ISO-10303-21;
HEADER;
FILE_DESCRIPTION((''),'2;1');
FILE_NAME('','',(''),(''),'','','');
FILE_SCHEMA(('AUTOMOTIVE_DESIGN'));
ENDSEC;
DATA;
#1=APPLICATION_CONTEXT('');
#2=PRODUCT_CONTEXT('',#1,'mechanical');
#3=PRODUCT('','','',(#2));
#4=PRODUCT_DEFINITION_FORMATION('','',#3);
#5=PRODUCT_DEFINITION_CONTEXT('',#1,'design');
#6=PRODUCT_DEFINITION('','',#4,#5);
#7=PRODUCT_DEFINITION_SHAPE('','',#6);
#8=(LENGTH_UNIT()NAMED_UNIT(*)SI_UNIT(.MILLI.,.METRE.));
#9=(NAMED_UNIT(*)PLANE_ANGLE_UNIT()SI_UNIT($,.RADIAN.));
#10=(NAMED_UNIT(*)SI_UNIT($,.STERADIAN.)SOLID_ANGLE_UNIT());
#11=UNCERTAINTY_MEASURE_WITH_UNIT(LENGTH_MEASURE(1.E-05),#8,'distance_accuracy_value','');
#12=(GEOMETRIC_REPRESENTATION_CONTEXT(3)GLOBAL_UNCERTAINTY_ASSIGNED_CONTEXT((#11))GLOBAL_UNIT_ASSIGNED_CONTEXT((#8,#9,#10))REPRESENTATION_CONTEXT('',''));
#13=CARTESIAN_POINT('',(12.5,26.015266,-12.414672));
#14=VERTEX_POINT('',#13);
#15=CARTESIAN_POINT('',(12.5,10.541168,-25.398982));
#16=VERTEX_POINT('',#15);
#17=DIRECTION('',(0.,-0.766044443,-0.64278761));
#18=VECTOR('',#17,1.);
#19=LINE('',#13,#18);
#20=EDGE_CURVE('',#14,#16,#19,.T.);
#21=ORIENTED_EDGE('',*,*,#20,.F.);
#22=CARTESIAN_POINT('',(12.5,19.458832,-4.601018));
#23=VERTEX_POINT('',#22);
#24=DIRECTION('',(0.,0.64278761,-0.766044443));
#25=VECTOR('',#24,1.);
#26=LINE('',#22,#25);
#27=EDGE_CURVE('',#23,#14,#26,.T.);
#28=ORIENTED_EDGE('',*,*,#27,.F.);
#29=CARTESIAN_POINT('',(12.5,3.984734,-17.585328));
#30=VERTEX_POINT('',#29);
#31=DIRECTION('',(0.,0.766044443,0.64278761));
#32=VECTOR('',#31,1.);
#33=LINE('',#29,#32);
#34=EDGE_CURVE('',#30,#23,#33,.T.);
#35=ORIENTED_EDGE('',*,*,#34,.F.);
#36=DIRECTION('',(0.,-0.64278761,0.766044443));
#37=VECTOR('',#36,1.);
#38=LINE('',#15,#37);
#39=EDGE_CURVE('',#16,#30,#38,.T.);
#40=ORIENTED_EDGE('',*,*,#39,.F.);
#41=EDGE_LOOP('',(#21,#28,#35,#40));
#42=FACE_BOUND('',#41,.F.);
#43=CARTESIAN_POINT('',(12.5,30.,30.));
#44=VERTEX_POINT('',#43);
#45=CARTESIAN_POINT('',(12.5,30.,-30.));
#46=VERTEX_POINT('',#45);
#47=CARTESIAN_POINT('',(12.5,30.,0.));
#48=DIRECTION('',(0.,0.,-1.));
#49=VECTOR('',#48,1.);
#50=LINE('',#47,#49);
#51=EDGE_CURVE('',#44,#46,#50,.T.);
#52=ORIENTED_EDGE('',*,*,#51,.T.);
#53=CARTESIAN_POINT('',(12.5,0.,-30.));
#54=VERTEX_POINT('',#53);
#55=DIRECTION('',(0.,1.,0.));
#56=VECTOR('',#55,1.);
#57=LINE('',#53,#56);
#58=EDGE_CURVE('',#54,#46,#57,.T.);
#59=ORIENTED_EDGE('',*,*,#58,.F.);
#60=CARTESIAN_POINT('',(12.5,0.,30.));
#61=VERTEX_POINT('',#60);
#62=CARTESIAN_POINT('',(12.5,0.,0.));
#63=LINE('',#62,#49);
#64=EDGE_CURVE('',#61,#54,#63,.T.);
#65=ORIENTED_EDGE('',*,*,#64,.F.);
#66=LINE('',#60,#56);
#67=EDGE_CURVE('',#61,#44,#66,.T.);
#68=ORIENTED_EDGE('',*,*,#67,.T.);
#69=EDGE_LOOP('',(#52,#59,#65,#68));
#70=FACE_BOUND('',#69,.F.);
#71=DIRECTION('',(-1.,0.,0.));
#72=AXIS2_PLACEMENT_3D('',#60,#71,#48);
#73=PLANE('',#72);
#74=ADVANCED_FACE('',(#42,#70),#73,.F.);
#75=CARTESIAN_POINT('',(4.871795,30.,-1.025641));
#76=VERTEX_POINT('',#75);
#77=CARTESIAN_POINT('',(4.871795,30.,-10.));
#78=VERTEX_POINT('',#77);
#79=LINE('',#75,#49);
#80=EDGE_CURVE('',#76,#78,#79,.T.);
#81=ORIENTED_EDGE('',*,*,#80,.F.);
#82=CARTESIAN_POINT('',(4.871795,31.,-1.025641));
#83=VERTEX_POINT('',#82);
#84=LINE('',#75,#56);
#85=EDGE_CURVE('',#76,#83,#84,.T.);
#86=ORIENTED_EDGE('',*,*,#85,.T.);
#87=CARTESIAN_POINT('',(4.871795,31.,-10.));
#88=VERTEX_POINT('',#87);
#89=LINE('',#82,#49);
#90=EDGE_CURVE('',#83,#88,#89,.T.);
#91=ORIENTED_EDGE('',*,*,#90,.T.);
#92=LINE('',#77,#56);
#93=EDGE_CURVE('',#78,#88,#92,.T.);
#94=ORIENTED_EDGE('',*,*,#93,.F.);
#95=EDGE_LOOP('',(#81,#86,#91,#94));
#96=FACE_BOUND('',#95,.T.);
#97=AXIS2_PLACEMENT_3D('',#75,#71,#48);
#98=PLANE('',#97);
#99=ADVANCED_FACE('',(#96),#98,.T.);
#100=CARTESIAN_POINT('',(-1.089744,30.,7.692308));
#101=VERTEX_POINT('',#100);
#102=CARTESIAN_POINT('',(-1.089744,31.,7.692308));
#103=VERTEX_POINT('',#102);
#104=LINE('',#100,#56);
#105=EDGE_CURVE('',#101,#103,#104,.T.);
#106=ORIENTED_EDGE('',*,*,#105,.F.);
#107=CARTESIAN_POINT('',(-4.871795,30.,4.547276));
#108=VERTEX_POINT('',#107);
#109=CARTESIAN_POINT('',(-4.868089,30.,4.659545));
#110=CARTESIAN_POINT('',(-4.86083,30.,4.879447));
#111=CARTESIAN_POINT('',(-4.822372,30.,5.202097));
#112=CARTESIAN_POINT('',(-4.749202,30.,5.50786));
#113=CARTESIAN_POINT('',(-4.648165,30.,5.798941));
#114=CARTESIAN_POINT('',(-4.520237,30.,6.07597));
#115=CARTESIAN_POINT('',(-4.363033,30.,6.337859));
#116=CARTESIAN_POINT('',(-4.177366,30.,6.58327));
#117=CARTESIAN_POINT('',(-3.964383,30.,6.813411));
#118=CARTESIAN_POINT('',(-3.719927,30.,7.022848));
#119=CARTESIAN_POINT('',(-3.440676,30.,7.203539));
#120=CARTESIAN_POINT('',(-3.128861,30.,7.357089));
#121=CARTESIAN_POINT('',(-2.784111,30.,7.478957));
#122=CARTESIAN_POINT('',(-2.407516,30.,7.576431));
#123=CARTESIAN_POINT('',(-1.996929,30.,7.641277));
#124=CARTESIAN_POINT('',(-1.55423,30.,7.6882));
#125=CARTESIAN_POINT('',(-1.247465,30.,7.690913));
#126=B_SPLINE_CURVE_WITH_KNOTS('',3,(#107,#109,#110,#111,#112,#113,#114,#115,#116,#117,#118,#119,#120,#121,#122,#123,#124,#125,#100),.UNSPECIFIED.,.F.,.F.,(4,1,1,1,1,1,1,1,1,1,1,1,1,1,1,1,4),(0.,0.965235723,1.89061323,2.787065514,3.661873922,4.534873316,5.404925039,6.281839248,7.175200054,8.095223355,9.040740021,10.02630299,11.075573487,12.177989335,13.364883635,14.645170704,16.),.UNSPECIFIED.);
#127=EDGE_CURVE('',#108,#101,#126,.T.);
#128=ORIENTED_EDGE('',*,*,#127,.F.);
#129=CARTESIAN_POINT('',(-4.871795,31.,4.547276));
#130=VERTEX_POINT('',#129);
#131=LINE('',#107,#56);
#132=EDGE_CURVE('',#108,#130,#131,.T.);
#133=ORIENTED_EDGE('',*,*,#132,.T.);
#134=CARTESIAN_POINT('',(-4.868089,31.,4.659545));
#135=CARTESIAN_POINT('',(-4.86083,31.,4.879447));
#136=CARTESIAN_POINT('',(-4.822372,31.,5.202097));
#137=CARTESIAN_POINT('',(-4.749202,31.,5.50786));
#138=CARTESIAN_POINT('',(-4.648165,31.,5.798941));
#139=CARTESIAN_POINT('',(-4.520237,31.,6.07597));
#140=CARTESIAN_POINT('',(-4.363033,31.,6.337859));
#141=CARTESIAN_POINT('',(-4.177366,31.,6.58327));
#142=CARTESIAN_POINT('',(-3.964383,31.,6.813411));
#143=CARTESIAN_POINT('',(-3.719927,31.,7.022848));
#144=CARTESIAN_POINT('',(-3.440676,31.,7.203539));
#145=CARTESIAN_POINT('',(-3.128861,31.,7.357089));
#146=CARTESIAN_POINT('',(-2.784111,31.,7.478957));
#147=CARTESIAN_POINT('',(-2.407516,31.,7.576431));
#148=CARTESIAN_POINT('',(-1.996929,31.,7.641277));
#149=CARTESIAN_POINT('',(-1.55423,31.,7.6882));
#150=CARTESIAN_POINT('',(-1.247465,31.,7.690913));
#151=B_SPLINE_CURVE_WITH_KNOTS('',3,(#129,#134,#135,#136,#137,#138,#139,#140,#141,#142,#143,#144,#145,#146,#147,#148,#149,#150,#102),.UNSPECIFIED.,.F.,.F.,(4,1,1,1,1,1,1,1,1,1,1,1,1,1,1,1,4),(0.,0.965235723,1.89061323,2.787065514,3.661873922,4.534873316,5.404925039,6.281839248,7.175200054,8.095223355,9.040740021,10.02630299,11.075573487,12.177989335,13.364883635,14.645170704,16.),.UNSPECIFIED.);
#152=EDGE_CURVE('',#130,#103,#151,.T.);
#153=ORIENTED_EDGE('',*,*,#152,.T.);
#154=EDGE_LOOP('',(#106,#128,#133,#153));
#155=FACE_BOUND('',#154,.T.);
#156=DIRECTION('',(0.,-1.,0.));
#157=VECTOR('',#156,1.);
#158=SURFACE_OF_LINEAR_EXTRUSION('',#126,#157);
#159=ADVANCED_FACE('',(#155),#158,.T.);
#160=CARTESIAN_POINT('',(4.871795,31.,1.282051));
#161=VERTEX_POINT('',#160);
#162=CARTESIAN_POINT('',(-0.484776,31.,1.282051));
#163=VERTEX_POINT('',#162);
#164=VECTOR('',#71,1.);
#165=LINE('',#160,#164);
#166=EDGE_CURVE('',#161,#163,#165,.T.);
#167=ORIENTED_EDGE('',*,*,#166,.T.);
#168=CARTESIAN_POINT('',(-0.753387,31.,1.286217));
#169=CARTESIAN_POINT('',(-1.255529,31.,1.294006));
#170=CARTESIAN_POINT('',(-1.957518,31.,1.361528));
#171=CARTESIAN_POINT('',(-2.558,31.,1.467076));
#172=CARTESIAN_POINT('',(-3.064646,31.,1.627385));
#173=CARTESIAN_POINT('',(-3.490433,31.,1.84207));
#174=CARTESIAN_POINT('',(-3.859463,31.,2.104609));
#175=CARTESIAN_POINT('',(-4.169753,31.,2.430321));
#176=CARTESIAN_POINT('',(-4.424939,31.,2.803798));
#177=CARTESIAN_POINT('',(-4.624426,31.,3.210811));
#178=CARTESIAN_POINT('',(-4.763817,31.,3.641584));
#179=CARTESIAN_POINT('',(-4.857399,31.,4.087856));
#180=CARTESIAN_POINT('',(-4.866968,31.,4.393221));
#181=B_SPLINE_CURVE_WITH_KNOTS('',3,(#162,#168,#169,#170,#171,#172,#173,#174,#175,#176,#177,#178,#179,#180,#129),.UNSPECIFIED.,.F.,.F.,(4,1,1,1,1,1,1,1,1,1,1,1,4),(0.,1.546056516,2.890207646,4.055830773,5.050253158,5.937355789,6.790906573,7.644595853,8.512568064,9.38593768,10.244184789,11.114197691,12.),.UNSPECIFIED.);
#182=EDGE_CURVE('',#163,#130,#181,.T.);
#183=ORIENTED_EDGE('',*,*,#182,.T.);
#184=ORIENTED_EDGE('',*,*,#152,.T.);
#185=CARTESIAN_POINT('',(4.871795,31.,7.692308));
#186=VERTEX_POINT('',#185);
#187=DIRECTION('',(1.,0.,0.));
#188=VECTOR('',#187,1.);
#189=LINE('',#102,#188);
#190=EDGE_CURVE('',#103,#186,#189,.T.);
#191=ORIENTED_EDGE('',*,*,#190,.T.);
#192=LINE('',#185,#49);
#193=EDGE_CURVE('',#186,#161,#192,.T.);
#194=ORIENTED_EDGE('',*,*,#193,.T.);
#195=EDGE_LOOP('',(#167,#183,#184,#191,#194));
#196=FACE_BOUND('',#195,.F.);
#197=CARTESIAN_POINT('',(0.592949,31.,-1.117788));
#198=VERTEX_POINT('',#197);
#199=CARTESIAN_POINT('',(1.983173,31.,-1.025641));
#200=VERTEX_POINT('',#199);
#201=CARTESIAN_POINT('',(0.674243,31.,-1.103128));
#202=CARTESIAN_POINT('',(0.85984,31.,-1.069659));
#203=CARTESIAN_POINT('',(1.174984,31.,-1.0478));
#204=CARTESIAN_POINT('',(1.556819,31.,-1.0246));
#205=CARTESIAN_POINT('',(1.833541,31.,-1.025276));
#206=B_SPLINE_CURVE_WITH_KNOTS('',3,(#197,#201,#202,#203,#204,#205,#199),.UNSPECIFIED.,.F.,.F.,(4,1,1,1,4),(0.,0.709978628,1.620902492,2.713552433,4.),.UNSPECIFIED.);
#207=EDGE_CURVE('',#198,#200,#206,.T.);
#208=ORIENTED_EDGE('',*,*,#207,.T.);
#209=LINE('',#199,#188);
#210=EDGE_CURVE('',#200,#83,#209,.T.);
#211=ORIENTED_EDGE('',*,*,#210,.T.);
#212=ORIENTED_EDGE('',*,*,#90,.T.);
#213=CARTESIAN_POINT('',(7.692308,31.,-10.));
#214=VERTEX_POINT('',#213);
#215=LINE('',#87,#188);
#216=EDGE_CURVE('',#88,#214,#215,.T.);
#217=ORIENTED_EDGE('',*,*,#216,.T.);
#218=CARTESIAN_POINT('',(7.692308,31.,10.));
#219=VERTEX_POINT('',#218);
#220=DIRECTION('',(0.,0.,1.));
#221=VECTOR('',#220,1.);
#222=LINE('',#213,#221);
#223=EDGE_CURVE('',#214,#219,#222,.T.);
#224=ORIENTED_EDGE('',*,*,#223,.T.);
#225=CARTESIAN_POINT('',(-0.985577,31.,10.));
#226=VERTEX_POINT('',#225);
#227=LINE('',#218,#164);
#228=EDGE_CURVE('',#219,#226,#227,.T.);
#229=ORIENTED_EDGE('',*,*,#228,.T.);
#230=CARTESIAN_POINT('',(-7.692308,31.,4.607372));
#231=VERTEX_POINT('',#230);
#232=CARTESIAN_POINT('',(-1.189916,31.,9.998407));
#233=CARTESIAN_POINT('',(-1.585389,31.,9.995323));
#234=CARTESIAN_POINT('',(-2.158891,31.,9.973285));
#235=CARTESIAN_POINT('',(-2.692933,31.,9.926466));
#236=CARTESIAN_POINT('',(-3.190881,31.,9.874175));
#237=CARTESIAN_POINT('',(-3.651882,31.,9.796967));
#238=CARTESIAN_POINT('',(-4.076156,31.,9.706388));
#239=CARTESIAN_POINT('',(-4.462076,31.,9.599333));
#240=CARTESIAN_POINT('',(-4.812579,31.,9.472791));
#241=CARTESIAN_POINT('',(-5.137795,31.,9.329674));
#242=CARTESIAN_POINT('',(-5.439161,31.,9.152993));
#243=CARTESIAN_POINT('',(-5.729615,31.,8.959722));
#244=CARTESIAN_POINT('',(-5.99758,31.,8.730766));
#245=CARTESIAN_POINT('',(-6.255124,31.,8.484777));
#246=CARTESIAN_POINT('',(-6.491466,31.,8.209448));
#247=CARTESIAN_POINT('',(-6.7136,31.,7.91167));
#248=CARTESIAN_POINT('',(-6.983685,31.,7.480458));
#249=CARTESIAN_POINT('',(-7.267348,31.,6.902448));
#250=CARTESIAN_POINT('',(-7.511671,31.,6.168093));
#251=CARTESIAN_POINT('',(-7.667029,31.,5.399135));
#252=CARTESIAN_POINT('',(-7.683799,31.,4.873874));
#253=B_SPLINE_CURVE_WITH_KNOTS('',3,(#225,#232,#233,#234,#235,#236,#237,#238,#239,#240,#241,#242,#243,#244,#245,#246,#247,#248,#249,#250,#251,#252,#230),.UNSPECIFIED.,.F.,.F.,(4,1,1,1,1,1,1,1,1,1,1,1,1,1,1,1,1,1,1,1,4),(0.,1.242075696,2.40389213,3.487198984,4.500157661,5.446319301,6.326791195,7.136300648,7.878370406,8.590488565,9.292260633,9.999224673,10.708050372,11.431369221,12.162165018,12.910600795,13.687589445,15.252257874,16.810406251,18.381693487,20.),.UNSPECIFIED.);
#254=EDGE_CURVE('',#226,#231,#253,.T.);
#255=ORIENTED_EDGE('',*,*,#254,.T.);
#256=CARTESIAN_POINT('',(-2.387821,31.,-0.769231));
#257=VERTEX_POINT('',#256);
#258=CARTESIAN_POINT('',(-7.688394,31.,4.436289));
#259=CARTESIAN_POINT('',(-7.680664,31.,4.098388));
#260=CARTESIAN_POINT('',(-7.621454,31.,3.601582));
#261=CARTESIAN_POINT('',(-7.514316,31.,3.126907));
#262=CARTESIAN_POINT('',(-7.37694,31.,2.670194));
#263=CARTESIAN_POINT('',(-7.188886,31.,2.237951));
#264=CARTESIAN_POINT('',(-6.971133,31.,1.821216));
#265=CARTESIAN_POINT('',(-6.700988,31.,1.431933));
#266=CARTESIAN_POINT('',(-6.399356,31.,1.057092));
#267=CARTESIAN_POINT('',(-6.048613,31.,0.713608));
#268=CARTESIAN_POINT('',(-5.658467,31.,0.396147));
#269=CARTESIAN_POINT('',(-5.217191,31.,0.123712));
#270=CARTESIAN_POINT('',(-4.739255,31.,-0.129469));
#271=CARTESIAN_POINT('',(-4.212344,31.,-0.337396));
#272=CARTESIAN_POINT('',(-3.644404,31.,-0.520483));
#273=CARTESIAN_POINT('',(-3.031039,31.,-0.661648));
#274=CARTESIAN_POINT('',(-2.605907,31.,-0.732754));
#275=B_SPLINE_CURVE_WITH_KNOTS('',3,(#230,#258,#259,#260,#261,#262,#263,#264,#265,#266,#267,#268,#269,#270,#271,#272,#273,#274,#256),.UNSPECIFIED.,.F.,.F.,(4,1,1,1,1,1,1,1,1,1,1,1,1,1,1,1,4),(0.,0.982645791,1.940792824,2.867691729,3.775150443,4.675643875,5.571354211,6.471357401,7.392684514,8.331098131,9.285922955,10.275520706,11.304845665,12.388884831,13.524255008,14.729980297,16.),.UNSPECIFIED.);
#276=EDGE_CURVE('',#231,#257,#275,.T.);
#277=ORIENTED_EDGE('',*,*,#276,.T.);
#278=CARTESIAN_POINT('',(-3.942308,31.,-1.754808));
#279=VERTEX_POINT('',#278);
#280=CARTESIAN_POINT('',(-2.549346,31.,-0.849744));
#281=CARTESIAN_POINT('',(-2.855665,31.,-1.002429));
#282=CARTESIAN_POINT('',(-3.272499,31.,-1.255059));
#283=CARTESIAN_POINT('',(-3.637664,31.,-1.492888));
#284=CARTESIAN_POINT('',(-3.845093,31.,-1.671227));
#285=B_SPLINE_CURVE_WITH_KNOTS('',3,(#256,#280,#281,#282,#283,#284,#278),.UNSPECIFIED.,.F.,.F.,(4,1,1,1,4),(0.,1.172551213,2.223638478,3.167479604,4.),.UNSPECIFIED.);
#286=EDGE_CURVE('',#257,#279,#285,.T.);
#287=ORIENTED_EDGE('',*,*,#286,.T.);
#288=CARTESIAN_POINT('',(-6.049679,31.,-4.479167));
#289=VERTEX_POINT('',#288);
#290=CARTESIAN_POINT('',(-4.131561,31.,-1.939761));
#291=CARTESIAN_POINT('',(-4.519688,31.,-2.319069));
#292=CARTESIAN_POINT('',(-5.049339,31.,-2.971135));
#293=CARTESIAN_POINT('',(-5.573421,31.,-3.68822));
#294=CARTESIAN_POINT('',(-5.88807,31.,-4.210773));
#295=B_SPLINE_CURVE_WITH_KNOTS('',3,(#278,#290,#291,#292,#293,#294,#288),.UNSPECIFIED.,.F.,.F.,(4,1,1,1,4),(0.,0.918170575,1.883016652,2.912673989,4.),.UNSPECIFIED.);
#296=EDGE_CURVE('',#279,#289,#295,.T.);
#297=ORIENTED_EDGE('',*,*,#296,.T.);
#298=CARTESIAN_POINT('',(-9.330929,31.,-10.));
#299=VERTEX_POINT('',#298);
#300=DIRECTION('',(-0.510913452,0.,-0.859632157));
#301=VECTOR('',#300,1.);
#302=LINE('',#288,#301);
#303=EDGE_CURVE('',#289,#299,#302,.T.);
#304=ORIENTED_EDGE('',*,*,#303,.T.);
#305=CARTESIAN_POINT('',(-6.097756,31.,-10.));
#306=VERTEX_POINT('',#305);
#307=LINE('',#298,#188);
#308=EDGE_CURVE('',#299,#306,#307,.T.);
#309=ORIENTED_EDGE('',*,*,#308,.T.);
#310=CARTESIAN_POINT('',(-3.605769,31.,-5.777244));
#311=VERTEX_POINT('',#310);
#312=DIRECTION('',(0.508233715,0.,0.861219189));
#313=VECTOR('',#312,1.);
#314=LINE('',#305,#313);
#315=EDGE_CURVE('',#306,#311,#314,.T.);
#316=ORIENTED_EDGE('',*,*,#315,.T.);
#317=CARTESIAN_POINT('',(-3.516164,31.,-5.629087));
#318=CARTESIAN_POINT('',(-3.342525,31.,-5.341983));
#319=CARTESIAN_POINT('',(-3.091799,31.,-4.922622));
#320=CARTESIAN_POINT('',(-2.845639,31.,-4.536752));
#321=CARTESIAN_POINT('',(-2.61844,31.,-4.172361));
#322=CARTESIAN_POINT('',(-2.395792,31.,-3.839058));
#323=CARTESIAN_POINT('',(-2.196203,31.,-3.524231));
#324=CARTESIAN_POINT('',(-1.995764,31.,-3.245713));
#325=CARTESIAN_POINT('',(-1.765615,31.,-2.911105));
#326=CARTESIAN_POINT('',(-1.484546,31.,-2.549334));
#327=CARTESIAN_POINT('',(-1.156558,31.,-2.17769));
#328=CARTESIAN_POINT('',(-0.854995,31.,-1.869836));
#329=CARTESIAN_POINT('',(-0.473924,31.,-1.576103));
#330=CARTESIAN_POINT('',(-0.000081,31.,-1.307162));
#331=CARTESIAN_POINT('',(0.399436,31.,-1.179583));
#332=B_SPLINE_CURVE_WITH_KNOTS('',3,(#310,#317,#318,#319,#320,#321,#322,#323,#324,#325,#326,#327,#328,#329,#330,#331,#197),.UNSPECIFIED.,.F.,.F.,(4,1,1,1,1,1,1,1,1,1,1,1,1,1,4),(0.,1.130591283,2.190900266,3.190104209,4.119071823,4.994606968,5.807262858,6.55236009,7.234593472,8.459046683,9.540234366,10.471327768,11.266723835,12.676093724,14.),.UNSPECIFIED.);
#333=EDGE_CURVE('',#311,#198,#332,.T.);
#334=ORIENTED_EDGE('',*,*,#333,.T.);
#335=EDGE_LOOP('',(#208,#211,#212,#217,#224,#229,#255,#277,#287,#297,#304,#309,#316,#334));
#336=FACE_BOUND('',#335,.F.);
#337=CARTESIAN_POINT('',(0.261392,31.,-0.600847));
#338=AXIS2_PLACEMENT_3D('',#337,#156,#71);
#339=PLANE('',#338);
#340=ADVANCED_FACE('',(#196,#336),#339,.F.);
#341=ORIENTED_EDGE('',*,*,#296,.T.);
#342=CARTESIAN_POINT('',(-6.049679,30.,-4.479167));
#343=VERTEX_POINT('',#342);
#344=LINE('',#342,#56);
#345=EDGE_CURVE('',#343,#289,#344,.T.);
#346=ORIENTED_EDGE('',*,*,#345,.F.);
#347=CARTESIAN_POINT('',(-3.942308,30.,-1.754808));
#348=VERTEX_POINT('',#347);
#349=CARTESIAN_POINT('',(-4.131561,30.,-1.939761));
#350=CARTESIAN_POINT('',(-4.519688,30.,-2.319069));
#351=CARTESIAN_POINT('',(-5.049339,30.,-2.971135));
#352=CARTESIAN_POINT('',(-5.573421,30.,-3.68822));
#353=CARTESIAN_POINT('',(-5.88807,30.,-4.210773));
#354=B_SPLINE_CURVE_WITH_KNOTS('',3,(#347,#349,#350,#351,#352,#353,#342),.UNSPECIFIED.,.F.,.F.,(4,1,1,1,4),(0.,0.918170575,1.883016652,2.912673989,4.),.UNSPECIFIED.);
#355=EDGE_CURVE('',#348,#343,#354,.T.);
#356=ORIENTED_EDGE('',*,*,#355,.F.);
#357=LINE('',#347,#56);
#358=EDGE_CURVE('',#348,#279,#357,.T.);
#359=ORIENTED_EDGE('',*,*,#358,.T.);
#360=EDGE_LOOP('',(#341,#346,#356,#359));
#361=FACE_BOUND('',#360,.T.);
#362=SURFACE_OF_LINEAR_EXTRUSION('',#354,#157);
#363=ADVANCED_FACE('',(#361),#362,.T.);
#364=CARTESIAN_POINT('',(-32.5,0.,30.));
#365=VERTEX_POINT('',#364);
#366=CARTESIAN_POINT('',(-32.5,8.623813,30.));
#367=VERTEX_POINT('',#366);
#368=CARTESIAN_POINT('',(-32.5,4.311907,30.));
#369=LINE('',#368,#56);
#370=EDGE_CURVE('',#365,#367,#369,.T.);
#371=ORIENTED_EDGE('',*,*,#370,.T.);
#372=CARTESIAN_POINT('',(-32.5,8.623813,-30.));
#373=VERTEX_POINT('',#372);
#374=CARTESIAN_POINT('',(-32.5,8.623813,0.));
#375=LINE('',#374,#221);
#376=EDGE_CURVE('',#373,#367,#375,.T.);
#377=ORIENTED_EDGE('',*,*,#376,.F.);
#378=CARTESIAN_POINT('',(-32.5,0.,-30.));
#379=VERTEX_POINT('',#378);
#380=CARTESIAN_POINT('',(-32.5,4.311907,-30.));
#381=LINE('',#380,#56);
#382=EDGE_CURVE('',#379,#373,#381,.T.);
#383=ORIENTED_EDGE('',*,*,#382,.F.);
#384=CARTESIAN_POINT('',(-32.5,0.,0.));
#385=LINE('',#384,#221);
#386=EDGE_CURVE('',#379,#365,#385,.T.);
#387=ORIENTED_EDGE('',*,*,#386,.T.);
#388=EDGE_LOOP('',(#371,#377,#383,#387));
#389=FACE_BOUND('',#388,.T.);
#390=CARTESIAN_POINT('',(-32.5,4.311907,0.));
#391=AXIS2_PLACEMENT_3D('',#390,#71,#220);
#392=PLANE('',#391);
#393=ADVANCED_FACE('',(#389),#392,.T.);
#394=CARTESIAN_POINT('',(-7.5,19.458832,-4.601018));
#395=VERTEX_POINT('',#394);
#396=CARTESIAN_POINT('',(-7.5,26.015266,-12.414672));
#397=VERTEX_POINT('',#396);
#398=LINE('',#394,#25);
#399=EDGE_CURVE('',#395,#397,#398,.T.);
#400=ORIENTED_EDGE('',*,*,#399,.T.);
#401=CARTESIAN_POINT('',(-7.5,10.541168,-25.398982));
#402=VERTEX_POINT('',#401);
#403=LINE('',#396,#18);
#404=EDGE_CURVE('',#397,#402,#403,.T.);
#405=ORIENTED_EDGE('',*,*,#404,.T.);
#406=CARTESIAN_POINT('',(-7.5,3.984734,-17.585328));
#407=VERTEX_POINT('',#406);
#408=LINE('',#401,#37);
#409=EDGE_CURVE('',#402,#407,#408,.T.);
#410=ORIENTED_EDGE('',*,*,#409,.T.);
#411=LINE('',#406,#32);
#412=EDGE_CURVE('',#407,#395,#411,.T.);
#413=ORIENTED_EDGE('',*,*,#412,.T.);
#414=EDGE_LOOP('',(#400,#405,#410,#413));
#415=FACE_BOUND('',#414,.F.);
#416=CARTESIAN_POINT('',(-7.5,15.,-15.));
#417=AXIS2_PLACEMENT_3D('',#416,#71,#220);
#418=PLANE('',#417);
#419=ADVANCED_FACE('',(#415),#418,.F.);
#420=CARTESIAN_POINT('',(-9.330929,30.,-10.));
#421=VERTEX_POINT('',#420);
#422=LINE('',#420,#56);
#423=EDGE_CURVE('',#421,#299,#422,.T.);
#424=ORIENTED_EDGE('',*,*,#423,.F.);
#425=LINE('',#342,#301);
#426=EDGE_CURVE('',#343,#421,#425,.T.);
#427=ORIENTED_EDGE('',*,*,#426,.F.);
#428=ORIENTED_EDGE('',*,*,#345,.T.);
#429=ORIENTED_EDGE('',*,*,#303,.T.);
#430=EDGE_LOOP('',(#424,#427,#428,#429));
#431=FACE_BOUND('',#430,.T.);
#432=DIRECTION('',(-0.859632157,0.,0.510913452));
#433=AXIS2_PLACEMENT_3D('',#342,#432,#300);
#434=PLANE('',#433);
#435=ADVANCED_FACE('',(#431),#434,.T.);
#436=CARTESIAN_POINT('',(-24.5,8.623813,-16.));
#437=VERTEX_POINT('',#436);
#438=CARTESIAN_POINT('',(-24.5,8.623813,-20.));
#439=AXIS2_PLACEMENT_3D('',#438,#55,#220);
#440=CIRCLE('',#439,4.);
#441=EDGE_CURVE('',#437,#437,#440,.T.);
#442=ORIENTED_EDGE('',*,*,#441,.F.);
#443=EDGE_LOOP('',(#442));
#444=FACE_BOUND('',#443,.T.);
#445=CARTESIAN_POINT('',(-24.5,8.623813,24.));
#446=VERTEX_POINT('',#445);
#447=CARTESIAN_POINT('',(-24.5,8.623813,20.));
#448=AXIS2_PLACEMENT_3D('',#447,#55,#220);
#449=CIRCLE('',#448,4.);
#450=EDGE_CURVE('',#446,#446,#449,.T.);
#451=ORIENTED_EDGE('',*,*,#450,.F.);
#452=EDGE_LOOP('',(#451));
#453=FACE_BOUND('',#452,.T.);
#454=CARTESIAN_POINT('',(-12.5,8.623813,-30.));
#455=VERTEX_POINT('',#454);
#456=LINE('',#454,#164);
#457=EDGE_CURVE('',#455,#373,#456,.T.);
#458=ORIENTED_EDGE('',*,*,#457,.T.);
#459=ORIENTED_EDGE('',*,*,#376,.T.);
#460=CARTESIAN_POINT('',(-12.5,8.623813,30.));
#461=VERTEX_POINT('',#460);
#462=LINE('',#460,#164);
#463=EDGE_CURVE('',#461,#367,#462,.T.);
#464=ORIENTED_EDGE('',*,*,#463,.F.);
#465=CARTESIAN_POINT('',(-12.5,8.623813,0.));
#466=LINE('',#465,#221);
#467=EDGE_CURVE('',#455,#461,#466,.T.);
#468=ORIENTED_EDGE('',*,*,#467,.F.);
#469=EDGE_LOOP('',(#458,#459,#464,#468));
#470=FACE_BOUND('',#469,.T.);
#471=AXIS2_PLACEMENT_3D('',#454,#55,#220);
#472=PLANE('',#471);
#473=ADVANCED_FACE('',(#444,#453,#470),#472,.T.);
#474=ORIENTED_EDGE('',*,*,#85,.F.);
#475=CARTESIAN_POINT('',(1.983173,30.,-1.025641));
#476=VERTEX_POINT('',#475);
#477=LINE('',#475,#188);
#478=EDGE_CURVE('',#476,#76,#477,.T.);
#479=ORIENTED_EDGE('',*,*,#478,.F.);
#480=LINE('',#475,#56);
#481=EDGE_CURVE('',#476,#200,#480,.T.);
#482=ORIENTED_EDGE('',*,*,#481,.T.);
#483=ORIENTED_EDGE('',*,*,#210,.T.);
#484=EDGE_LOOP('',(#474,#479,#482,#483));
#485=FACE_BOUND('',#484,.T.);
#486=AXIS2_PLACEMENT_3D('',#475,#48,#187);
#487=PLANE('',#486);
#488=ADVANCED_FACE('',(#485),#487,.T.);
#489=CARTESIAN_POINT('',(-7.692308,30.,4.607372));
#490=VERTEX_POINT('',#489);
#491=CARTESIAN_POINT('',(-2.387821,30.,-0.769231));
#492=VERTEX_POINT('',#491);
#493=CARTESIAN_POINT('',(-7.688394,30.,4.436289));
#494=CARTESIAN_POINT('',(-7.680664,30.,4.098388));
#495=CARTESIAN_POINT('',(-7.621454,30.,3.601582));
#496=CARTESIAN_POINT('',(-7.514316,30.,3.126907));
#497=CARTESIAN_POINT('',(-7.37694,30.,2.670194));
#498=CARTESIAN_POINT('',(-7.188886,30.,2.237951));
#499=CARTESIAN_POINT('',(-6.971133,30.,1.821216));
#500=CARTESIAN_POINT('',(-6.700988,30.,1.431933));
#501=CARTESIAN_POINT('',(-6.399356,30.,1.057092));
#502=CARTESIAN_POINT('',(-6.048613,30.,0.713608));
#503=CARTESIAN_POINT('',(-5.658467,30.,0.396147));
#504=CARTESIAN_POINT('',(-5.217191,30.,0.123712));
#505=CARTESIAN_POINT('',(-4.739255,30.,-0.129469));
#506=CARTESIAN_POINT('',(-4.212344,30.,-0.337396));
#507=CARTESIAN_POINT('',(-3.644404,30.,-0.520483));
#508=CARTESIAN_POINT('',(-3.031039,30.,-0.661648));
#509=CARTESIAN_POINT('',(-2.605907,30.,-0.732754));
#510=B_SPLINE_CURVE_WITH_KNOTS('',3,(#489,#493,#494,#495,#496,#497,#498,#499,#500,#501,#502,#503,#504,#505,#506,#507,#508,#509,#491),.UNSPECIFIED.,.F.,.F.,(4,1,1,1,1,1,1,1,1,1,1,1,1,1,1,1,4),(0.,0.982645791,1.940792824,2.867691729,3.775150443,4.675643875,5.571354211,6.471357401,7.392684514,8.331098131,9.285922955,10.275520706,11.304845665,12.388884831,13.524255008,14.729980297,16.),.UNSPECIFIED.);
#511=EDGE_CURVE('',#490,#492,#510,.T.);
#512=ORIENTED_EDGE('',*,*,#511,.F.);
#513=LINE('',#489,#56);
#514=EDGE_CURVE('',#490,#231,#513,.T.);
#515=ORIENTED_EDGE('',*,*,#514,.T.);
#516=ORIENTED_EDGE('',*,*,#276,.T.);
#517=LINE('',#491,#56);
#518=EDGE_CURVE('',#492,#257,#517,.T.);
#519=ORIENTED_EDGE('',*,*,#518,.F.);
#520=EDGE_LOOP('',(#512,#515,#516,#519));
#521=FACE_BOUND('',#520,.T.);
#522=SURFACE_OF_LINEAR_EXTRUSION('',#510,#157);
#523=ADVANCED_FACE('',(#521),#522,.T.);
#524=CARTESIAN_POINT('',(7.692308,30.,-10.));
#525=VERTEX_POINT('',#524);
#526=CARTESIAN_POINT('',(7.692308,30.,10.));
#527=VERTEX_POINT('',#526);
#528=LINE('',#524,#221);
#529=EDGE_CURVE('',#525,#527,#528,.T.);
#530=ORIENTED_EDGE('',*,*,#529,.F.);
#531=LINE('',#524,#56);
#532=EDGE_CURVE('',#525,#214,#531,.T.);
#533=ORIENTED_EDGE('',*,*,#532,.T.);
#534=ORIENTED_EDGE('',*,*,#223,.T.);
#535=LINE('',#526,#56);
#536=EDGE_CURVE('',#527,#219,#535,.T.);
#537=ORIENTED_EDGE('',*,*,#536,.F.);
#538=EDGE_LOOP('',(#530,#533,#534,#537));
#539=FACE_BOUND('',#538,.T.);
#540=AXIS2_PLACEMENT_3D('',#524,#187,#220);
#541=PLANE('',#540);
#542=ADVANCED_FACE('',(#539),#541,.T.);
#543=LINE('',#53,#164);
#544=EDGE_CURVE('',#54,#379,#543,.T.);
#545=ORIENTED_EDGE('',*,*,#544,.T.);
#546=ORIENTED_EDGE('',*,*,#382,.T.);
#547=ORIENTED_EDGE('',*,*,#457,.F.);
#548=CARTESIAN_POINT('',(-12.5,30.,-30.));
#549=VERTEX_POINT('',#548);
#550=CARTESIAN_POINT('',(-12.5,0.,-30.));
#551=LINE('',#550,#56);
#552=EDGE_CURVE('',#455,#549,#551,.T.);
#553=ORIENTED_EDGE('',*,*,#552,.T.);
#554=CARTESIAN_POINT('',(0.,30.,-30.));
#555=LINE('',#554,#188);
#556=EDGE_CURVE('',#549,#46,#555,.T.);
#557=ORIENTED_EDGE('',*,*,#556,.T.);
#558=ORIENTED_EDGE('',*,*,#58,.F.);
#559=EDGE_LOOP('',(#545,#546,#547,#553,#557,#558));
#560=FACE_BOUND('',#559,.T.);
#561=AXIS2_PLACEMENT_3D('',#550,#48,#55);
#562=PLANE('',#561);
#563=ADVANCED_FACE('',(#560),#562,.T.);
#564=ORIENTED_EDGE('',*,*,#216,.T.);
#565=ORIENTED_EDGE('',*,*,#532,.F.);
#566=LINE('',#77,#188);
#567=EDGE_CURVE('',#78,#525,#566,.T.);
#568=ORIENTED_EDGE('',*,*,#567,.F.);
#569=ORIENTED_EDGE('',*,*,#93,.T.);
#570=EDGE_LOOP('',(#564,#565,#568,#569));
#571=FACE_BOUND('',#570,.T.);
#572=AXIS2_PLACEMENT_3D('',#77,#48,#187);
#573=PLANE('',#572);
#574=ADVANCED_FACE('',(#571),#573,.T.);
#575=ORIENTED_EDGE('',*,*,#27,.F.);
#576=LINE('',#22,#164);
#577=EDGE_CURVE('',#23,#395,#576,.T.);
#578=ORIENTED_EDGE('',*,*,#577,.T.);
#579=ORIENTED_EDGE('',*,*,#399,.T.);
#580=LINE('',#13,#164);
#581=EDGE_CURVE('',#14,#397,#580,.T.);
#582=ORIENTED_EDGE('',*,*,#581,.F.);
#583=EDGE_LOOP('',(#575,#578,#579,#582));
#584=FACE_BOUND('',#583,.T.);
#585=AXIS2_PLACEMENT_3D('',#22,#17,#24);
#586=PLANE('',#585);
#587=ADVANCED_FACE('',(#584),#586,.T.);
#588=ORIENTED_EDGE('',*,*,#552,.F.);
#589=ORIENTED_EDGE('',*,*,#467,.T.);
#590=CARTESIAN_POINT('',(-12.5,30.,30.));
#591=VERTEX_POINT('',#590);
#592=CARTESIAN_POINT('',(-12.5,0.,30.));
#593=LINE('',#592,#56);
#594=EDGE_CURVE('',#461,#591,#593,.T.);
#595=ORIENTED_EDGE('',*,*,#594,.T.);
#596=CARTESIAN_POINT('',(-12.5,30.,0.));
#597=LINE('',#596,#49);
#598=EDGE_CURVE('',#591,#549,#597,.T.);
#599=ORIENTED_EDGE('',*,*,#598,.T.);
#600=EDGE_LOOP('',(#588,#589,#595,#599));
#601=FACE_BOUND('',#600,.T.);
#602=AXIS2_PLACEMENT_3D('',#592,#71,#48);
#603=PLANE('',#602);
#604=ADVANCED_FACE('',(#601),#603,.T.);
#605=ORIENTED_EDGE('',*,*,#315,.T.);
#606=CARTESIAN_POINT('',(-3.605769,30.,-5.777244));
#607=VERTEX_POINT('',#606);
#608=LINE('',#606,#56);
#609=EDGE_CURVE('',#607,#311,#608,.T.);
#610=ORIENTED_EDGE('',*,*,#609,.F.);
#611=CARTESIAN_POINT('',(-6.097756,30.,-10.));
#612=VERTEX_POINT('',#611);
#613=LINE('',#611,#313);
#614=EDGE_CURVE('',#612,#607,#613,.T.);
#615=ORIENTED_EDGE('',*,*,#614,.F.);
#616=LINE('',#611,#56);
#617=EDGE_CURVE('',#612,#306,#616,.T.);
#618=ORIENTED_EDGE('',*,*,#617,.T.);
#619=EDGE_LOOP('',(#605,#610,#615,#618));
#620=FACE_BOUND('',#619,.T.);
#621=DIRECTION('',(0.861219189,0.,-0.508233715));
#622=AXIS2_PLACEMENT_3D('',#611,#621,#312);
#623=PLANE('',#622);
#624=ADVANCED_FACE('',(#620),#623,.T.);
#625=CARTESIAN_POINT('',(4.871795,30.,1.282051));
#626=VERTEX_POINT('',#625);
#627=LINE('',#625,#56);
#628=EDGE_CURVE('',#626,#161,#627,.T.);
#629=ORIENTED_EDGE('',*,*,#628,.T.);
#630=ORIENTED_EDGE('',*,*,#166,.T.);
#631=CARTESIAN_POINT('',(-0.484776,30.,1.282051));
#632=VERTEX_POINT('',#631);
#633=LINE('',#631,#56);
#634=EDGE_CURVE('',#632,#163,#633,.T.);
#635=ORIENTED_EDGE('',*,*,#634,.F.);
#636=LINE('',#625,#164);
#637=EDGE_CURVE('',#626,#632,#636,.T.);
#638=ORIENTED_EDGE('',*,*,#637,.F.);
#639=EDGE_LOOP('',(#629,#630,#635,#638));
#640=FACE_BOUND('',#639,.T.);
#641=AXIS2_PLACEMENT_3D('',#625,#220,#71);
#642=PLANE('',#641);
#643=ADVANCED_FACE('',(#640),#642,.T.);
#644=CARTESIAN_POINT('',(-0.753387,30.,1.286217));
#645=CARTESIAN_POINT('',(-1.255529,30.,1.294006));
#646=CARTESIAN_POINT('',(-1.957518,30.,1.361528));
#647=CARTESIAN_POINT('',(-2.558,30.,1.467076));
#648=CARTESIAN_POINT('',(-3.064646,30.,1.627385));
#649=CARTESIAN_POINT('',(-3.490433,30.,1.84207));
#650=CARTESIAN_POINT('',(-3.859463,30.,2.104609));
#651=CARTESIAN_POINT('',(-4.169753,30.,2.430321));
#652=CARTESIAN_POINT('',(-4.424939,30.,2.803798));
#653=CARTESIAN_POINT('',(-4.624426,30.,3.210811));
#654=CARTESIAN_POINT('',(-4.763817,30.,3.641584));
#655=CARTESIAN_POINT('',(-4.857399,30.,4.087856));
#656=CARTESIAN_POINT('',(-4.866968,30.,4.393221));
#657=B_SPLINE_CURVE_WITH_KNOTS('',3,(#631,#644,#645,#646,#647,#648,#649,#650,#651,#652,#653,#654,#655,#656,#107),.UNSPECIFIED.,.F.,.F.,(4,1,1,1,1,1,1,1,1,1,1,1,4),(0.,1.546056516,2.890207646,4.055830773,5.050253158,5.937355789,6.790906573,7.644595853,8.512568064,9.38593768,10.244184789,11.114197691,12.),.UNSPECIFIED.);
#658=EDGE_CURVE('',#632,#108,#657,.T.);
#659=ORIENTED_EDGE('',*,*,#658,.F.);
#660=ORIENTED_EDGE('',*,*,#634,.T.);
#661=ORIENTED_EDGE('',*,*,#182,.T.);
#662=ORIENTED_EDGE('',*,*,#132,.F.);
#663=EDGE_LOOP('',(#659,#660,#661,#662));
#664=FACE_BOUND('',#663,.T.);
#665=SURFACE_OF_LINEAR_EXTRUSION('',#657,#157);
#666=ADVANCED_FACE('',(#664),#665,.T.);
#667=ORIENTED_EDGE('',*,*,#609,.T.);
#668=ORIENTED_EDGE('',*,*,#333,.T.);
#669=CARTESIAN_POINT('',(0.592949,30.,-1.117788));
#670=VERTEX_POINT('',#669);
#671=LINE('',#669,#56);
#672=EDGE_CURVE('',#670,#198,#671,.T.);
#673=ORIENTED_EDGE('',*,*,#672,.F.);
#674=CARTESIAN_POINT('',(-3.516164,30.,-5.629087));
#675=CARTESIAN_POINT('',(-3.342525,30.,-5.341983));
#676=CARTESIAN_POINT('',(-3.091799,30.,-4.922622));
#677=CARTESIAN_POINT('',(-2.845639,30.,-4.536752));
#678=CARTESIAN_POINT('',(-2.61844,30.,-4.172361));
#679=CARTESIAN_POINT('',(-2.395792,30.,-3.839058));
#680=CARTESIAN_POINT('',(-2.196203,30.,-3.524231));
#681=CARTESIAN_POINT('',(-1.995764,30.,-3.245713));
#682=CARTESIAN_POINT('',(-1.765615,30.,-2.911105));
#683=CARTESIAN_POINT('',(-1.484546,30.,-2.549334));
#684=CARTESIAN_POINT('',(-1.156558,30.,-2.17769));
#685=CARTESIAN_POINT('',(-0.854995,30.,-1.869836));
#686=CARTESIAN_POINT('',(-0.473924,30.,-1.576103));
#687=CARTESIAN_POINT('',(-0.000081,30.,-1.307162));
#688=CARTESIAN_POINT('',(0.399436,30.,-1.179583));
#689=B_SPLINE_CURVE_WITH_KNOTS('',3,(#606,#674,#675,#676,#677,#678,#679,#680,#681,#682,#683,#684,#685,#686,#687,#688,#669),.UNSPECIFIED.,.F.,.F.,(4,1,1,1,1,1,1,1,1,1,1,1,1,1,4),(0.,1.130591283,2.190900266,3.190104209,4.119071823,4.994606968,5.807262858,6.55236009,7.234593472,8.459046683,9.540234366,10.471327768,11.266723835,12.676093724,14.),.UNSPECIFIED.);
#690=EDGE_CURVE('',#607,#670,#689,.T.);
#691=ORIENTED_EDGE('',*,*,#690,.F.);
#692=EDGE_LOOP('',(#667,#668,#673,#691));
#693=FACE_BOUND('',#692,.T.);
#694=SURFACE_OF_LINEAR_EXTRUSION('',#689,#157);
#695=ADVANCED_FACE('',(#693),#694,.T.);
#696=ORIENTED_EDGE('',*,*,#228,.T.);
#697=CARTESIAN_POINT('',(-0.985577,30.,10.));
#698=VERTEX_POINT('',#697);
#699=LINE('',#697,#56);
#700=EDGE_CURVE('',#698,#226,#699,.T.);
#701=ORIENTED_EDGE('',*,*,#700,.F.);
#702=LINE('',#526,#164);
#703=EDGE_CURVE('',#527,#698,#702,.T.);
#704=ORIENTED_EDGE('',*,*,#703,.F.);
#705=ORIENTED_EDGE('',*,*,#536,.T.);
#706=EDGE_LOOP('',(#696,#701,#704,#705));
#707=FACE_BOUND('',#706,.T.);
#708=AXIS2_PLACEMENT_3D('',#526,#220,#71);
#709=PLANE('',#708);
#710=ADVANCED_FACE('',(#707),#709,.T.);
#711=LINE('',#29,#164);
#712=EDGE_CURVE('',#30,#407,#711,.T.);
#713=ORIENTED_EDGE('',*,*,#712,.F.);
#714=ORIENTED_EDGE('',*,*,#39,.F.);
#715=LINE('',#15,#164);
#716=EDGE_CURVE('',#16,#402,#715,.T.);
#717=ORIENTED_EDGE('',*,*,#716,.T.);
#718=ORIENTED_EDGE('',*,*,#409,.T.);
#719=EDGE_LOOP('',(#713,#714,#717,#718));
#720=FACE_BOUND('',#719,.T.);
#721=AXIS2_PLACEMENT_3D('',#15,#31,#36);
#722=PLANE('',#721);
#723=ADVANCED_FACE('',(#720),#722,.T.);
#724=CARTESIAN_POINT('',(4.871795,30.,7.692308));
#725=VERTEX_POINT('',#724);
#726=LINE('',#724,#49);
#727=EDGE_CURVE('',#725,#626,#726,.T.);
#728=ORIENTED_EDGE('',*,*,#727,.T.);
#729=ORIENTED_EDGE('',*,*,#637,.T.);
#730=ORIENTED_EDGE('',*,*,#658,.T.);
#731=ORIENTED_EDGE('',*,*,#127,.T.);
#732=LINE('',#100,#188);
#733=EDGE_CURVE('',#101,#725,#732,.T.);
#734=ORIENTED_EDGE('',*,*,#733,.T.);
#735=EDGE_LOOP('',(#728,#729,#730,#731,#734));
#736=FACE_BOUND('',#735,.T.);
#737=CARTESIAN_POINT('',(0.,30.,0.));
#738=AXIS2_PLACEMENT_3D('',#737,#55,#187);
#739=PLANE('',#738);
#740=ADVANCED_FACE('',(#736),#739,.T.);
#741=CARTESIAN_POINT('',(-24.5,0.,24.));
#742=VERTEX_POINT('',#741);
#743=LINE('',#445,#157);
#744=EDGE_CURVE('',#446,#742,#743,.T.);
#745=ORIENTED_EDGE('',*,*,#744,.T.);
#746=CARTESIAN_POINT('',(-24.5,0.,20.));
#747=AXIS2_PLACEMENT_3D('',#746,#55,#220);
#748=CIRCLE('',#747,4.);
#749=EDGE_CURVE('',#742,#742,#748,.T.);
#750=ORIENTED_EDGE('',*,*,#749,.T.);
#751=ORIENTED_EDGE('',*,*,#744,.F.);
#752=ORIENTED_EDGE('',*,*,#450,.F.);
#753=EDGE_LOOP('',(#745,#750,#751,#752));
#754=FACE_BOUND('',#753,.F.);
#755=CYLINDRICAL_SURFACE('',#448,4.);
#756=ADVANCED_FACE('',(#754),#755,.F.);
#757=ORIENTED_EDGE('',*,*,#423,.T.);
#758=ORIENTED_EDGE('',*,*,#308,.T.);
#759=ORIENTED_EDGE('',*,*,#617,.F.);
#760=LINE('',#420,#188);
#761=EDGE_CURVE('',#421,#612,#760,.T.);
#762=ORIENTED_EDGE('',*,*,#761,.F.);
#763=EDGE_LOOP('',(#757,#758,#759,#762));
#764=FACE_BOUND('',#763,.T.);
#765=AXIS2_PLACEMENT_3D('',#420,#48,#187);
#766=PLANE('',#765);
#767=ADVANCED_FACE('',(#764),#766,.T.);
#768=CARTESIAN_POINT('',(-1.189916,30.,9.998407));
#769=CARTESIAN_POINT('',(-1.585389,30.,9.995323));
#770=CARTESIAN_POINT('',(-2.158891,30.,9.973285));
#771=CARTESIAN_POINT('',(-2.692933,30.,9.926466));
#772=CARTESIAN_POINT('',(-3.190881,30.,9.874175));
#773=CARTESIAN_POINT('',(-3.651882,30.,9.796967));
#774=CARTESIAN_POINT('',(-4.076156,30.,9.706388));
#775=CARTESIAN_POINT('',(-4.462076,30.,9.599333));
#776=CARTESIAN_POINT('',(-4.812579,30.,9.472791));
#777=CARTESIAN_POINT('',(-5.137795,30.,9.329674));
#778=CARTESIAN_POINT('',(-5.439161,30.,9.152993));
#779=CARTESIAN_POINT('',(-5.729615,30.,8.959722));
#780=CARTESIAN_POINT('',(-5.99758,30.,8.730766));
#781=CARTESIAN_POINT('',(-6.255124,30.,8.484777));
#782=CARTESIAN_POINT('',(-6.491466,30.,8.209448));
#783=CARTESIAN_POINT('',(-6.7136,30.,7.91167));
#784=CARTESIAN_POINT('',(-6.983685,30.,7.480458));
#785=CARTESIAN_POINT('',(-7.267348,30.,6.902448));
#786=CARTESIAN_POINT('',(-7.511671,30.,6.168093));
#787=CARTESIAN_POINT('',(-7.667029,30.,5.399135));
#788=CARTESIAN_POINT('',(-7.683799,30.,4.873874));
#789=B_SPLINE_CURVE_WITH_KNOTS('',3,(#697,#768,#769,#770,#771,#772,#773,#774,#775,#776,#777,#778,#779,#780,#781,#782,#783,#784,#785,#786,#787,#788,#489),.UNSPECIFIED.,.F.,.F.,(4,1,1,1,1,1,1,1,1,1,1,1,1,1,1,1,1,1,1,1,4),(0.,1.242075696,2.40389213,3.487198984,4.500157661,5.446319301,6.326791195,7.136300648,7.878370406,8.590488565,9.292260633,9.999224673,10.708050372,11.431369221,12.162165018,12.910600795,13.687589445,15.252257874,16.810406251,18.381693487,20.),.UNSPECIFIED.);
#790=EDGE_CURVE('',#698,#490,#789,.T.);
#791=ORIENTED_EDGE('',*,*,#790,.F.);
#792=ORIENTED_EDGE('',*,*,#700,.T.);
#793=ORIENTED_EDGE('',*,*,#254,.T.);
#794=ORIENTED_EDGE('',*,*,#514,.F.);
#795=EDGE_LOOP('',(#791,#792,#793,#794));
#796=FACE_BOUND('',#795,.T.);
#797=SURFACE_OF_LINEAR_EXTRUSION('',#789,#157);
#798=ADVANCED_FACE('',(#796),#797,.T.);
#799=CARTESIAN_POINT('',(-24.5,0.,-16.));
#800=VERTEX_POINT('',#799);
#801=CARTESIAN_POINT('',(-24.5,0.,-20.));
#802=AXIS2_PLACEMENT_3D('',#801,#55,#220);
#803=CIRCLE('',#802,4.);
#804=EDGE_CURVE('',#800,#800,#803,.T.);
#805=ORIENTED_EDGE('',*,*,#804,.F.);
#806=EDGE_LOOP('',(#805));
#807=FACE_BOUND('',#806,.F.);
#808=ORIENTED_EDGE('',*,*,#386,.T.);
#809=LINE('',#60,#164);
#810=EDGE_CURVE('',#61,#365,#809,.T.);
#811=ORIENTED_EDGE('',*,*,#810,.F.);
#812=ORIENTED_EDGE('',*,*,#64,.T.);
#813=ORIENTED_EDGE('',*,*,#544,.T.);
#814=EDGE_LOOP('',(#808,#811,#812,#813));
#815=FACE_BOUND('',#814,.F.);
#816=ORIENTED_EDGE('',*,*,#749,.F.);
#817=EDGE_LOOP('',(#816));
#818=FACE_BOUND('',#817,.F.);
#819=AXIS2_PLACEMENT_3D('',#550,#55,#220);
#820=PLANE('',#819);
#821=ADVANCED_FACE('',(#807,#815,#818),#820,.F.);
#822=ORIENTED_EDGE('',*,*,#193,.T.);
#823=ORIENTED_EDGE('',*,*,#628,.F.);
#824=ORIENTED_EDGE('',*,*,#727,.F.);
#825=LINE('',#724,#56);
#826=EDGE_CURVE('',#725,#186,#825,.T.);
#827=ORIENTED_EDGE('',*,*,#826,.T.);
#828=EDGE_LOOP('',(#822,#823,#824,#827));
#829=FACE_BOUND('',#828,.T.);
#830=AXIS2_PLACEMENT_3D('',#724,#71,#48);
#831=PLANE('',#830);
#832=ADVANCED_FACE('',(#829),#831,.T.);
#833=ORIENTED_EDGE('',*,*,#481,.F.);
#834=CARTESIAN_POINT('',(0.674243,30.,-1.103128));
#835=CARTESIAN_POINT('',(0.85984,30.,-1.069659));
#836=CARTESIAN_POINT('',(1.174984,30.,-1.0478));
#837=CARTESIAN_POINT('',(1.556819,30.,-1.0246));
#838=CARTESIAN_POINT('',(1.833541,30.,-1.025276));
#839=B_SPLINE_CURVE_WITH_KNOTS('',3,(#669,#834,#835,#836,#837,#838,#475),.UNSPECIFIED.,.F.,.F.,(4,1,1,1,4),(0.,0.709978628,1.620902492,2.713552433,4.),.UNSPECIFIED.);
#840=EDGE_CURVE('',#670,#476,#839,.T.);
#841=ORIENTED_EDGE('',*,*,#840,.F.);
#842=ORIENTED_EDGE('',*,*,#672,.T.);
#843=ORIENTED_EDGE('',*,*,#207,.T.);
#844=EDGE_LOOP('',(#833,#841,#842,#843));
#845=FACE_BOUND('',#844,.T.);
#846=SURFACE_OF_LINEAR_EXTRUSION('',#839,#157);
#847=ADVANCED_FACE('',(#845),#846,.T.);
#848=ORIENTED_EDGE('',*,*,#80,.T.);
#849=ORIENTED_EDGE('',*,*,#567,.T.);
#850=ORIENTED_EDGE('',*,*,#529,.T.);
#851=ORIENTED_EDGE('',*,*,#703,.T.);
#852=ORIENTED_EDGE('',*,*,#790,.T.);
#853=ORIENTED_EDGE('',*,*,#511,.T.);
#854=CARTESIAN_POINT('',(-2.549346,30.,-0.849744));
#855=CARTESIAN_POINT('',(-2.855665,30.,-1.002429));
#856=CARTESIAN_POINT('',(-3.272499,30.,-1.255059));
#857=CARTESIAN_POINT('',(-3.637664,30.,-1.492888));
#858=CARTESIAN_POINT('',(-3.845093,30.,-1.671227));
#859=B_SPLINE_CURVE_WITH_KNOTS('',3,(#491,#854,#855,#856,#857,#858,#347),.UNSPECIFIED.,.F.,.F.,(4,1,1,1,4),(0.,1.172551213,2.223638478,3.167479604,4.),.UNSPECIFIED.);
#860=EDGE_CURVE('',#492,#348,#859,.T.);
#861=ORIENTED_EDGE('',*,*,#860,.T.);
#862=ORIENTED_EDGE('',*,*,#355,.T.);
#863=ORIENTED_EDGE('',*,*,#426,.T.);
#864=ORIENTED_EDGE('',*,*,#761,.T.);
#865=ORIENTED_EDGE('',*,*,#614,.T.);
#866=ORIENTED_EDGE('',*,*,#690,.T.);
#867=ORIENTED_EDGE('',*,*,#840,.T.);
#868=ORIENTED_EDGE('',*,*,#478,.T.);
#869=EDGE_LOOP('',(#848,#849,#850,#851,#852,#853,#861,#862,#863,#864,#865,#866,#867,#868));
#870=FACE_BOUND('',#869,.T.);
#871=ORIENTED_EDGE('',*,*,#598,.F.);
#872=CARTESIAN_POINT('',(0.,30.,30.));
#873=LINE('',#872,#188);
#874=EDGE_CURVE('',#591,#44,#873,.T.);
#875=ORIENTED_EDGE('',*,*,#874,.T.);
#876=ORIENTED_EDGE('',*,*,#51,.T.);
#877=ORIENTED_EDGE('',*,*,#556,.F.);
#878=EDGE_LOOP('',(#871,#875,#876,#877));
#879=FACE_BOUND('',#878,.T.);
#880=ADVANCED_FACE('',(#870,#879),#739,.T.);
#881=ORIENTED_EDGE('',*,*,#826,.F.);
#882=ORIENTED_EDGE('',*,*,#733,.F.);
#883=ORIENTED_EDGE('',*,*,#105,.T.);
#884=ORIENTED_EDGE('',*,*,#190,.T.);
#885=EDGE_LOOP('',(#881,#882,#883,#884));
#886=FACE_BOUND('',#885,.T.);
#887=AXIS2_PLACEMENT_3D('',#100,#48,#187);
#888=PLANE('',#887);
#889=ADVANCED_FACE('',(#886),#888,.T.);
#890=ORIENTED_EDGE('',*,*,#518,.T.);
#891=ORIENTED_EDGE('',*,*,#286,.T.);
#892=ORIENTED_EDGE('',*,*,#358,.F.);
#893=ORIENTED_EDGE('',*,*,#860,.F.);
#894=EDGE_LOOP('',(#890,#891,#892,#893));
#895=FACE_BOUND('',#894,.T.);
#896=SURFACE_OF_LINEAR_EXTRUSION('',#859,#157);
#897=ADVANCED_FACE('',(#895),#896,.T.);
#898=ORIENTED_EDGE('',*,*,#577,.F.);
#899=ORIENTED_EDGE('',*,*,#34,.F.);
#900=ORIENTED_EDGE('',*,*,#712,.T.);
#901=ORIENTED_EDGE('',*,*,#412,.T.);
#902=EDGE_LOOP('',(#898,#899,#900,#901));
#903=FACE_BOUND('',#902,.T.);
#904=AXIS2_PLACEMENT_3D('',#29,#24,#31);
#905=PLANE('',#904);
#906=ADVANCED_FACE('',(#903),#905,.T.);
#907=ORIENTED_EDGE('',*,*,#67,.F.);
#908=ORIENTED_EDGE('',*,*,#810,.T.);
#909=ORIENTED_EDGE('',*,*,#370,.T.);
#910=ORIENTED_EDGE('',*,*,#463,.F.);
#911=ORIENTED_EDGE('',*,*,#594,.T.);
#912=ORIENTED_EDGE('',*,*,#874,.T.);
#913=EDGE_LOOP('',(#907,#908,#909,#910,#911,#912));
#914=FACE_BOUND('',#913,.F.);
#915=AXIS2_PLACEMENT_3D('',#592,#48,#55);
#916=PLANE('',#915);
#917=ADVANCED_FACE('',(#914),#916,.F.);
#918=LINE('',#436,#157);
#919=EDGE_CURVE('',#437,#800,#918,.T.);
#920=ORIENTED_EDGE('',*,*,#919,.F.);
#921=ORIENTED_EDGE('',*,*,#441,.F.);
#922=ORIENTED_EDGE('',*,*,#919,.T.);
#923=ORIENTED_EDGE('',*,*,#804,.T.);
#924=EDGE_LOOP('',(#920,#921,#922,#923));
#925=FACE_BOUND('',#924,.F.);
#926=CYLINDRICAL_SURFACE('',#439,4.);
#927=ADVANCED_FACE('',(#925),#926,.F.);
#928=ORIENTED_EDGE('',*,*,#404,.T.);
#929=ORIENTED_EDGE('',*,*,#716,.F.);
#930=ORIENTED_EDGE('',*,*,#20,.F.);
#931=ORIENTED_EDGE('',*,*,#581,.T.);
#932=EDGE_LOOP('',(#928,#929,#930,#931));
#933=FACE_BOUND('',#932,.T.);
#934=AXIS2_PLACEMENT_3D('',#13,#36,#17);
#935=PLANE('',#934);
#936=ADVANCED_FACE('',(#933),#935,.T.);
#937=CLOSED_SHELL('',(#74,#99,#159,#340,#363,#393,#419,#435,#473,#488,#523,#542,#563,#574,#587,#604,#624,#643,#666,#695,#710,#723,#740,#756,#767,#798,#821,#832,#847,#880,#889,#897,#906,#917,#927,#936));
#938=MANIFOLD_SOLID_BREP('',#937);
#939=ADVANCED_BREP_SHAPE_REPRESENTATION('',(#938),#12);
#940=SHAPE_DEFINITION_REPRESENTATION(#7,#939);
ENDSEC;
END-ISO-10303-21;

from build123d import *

# Parameters (mm, degrees)
SKETCH1_W           = 25
SKETCH1_H           = 60
BOSS_EXTRUDE1_DEPTH = 30
SKETCH2_W           = 60
SKETCH2_H           = 8.623813306
BOSS_EXTRUDE2_DEPTH = 20
SKETCH3_R           = 4
CUT_EXTRUDE1_DEPTH  = 9.623813306
CUT_EXTRUDE2_DEPTH  = 20
BOSS_EXTRUDE3_DEPTH = 1


with BuildPart() as part:
    # Sketch1 → Boss-Extrude1 (new body)
    with BuildSketch(Plane(origin=(0, 0, 0), x_dir=(1, 0, 0), z_dir=(0, 1, 0))):
        Rectangle(SKETCH1_W, SKETCH1_H)
    extrude(amount=BOSS_EXTRUDE1_DEPTH)

    # Sketch2 → Boss-Extrude2 (add)
    with BuildSketch(Plane.ZY.offset(12.5)):
        with Locations((0, 4.311906653)):
            Rectangle(SKETCH2_W, SKETCH2_H)
    extrude(amount=BOSS_EXTRUDE2_DEPTH)

    # Sketch3 → Cut-Extrude1 (cut, through all)
    with BuildSketch(Plane(origin=(0, 8.623813306, 0), x_dir=(1, 0, 0), z_dir=(0, 1, 0))):
        with Locations(Location((-24.5, 20, 0), (0, 0, 270))):  # turned: the seam where the file's is
            Circle(SKETCH3_R)
        with Locations(Location((-24.5, -20, 0), (0, 0, 270))):  # turned: the seam where the file's is
            Circle(SKETCH3_R)
    extrude(amount=-CUT_EXTRUDE1_DEPTH, mode=Mode.SUBTRACT)

    # Sketch4 → Cut-Extrude2 (cut)
    with BuildSketch(Plane(origin=(12.5, 0, 0), x_dir=(0, 0, -1), z_dir=(1, 0, 0))):
        Polygon((12.414671802, 26.015265685), (25.398981518, 10.541167934), (17.585328198, 3.984734315), (4.601018482, 19.458832066), align=None)
    extrude(amount=-CUT_EXTRUDE2_DEPTH, mode=Mode.SUBTRACT)

    # Sketch5 → Boss-Extrude3 (add)
    with BuildSketch(Plane(origin=(0, 30, 0), x_dir=(1, 0, 0), z_dir=(0, 1, 0))):
        with BuildLine():
            Line((7.692307692, 10), (7.692307692, -10))
            Line((7.692307692, -10), (-0.985576923, -10))
            add(Edge.make_bspline(
                [(-0.985576923, -10), (-1.189915508, -9.998406517), (-1.585388921, -9.995322517), (-2.158891161, -9.97328499), (-2.692933181, -9.926466249), (-3.190880742, -9.87417544), (-3.651881782, -9.796967041), (-4.076156001, -9.706387661), (-4.462076213, -9.599333368), (-4.812578849, -9.472790754), (-5.13779529, -9.329673653), (-5.439160579, -9.1529927), (-5.729614752, -8.959721513), (-5.997579665, -8.730765608), (-6.255124362, -8.484777239), (-6.491466209, -8.20944831), (-6.713599726, -7.911670049), (-6.98368474, -7.480457665), (-7.26734754, -6.902448182), (-7.511671117, -6.168093018), (-7.667028651, -5.399134972), (-7.683798939, -4.873873893), (-7.692307692, -4.607371795)],
                knots=[0, 0, 0, 0, 1.242075696, 2.40389213, 3.487198984, 4.500157661, 5.446319301, 6.326791195, 7.136300648, 7.878370406, 8.590488565, 9.292260633, 9.999224673, 10.708050372, 11.431369221, 12.162165018, 12.910600795, 13.687589445, 15.252257874, 16.810406251, 18.381693487, 20, 20, 20, 20], degree=3))
            add(Edge.make_bspline(
                [(-7.692307692, -4.607371795), (-7.688394011, -4.436288612), (-7.680664221, -4.098387595), (-7.621454116, -3.601582104), (-7.51431592, -3.126906532), (-7.376939813, -2.670193942), (-7.1888858, -2.237951011), (-6.971132957, -1.821215885), (-6.700987613, -1.431932834), (-6.399355855, -1.057091635), (-6.048612719, -0.71360816), (-5.658467411, -0.39614679), (-5.217190586, -0.123711561), (-4.739255324, 0.129469087), (-4.212344466, 0.337396306), (-3.644404331, 0.520482963), (-3.031039376, 0.661647942), (-2.605906991, 0.732754289), (-2.387820513, 0.769230769)],
                knots=[0, 0, 0, 0, 0.982645791, 1.940792824, 2.867691729, 3.775150443, 4.675643875, 5.571354211, 6.471357401, 7.392684514, 8.331098131, 9.285922955, 10.275520706, 11.304845665, 12.388884831, 13.524255008, 14.729980297, 16, 16, 16, 16], degree=3))
            add(Edge.make_bspline(
                [(-2.387820513, 0.769230769), (-2.549345996, 0.849743746), (-2.855664626, 1.002429402), (-3.272498706, 1.255059029), (-3.637663897, 1.492888205), (-3.845092801, 1.671226556), (-3.942307692, 1.754807692)],
                knots=[0, 0, 0, 0, 1.172551213, 2.223638478, 3.167479604, 4, 4, 4, 4], degree=3))
            add(Edge.make_bspline(
                [(-3.942307692, 1.754807692), (-4.131560958, 1.939760877), (-4.519688241, 2.319069404), (-5.049338611, 2.971134565), (-5.573421338, 3.688219618), (-5.888069662, 4.2107727), (-6.049679487, 4.479166667)],
                knots=[0, 0, 0, 0, 0.918170575, 1.883016652, 2.912673989, 4, 4, 4, 4], degree=3))
            Line((-6.049679487, 4.479166667), (-9.330929487, 10))
            Line((-9.330929487, 10), (-6.09775641, 10))
            Line((-6.09775641, 10), (-3.605769231, 5.77724359))
            add(Edge.make_bspline(
                [(-3.605769231, 5.77724359), (-3.516164402, 5.629086783), (-3.342524957, 5.34198322), (-3.091798881, 4.922621923), (-2.845639404, 4.536751784), (-2.618440056, 4.172360633), (-2.395792195, 3.839058208), (-2.196203285, 3.524230537), (-1.99576396, 3.245712753), (-1.765615132, 2.91110533), (-1.484546035, 2.549334189), (-1.156558274, 2.177690005), (-0.854995349, 1.869836465), (-0.473923576, 1.576103263), (-8.0808e-05, 1.307161834), (0.399436219, 1.179583217), (0.592948718, 1.117788462)],
                knots=[0, 0, 0, 0, 1.130591283, 2.190900266, 3.190104209, 4.119071823, 4.994606968, 5.807262858, 6.55236009, 7.234593472, 8.459046683, 9.540234366, 10.471327768, 11.266723835, 12.676093724, 14, 14, 14, 14], degree=3))
            add(Edge.make_bspline(
                [(0.592948718, 1.117788462), (0.674242958, 1.103128347), (0.859840146, 1.069658866), (1.174983707, 1.047799895), (1.556818794, 1.024599522), (1.833541189, 1.025275503), (1.983173077, 1.025641026)],
                knots=[0, 0, 0, 0, 0.709978628, 1.620902492, 2.713552433, 4, 4, 4, 4], degree=3))
            Line((1.983173077, 1.025641026), (4.871794872, 1.025641026))
            Line((4.871794872, 1.025641026), (4.871794872, 10))
            Line((4.871794872, 10), (7.692307692, 10))
        make_face()
        with BuildLine():
            Line((4.871794872, -1.282051282), (-0.484775641, -1.282051282))
            add(Edge.make_bspline(
                [(-0.484775641, -1.282051282), (-0.753386517, -1.286217416), (-1.255529355, -1.294005613), (-1.957518176, -1.361528247), (-2.558000395, -1.467075801), (-3.064646298, -1.627384754), (-3.490432782, -1.842070076), (-3.859462924, -2.104609449), (-4.169752828, -2.430321342), (-4.424939479, -2.80379836), (-4.624425797, -3.210810832), (-4.763816724, -3.641583566), (-4.857398907, -4.087856282), (-4.866967535, -4.393220511), (-4.871794872, -4.547275641)],
                knots=[0, 0, 0, 0, 1.546056516, 2.890207646, 4.055830773, 5.050253158, 5.937355789, 6.790906573, 7.644595853, 8.512568064, 9.38593768, 10.244184789, 11.114197691, 12, 12, 12, 12], degree=3))
            add(Edge.make_bspline(
                [(-4.871794872, -4.547275641), (-4.868088958, -4.659544766), (-4.86083016, -4.879447), (-4.822372143, -5.202097101), (-4.749202425, -5.50786025), (-4.648165007, -5.798940542), (-4.520236894, -6.075969951), (-4.363033481, -6.337858904), (-4.177365929, -6.583269781), (-3.964383478, -6.81341075), (-3.719926868, -7.02284832), (-3.440676061, -7.203538998), (-3.128860999, -7.357089463), (-2.784111469, -7.478956731), (-2.407515729, -7.576430897), (-1.996929252, -7.641277267), (-1.554229928, -7.688199899), (-1.24746496, -7.690912847), (-1.08974359, -7.692307692)],
                knots=[0, 0, 0, 0, 0.965235723, 1.89061323, 2.787065514, 3.661873922, 4.534873316, 5.404925039, 6.281839248, 7.175200054, 8.095223355, 9.040740021, 10.02630299, 11.075573487, 12.177989335, 13.364883635, 14.645170704, 16, 16, 16, 16], degree=3))
            Line((-1.08974359, -7.692307692), (4.871794872, -7.692307692))
            Line((4.871794872, -7.692307692), (4.871794872, -1.282051282))
        make_face(mode=Mode.SUBTRACT)
    extrude(amount=BOSS_EXTRUDE3_DEPTH)


solid = part.part
